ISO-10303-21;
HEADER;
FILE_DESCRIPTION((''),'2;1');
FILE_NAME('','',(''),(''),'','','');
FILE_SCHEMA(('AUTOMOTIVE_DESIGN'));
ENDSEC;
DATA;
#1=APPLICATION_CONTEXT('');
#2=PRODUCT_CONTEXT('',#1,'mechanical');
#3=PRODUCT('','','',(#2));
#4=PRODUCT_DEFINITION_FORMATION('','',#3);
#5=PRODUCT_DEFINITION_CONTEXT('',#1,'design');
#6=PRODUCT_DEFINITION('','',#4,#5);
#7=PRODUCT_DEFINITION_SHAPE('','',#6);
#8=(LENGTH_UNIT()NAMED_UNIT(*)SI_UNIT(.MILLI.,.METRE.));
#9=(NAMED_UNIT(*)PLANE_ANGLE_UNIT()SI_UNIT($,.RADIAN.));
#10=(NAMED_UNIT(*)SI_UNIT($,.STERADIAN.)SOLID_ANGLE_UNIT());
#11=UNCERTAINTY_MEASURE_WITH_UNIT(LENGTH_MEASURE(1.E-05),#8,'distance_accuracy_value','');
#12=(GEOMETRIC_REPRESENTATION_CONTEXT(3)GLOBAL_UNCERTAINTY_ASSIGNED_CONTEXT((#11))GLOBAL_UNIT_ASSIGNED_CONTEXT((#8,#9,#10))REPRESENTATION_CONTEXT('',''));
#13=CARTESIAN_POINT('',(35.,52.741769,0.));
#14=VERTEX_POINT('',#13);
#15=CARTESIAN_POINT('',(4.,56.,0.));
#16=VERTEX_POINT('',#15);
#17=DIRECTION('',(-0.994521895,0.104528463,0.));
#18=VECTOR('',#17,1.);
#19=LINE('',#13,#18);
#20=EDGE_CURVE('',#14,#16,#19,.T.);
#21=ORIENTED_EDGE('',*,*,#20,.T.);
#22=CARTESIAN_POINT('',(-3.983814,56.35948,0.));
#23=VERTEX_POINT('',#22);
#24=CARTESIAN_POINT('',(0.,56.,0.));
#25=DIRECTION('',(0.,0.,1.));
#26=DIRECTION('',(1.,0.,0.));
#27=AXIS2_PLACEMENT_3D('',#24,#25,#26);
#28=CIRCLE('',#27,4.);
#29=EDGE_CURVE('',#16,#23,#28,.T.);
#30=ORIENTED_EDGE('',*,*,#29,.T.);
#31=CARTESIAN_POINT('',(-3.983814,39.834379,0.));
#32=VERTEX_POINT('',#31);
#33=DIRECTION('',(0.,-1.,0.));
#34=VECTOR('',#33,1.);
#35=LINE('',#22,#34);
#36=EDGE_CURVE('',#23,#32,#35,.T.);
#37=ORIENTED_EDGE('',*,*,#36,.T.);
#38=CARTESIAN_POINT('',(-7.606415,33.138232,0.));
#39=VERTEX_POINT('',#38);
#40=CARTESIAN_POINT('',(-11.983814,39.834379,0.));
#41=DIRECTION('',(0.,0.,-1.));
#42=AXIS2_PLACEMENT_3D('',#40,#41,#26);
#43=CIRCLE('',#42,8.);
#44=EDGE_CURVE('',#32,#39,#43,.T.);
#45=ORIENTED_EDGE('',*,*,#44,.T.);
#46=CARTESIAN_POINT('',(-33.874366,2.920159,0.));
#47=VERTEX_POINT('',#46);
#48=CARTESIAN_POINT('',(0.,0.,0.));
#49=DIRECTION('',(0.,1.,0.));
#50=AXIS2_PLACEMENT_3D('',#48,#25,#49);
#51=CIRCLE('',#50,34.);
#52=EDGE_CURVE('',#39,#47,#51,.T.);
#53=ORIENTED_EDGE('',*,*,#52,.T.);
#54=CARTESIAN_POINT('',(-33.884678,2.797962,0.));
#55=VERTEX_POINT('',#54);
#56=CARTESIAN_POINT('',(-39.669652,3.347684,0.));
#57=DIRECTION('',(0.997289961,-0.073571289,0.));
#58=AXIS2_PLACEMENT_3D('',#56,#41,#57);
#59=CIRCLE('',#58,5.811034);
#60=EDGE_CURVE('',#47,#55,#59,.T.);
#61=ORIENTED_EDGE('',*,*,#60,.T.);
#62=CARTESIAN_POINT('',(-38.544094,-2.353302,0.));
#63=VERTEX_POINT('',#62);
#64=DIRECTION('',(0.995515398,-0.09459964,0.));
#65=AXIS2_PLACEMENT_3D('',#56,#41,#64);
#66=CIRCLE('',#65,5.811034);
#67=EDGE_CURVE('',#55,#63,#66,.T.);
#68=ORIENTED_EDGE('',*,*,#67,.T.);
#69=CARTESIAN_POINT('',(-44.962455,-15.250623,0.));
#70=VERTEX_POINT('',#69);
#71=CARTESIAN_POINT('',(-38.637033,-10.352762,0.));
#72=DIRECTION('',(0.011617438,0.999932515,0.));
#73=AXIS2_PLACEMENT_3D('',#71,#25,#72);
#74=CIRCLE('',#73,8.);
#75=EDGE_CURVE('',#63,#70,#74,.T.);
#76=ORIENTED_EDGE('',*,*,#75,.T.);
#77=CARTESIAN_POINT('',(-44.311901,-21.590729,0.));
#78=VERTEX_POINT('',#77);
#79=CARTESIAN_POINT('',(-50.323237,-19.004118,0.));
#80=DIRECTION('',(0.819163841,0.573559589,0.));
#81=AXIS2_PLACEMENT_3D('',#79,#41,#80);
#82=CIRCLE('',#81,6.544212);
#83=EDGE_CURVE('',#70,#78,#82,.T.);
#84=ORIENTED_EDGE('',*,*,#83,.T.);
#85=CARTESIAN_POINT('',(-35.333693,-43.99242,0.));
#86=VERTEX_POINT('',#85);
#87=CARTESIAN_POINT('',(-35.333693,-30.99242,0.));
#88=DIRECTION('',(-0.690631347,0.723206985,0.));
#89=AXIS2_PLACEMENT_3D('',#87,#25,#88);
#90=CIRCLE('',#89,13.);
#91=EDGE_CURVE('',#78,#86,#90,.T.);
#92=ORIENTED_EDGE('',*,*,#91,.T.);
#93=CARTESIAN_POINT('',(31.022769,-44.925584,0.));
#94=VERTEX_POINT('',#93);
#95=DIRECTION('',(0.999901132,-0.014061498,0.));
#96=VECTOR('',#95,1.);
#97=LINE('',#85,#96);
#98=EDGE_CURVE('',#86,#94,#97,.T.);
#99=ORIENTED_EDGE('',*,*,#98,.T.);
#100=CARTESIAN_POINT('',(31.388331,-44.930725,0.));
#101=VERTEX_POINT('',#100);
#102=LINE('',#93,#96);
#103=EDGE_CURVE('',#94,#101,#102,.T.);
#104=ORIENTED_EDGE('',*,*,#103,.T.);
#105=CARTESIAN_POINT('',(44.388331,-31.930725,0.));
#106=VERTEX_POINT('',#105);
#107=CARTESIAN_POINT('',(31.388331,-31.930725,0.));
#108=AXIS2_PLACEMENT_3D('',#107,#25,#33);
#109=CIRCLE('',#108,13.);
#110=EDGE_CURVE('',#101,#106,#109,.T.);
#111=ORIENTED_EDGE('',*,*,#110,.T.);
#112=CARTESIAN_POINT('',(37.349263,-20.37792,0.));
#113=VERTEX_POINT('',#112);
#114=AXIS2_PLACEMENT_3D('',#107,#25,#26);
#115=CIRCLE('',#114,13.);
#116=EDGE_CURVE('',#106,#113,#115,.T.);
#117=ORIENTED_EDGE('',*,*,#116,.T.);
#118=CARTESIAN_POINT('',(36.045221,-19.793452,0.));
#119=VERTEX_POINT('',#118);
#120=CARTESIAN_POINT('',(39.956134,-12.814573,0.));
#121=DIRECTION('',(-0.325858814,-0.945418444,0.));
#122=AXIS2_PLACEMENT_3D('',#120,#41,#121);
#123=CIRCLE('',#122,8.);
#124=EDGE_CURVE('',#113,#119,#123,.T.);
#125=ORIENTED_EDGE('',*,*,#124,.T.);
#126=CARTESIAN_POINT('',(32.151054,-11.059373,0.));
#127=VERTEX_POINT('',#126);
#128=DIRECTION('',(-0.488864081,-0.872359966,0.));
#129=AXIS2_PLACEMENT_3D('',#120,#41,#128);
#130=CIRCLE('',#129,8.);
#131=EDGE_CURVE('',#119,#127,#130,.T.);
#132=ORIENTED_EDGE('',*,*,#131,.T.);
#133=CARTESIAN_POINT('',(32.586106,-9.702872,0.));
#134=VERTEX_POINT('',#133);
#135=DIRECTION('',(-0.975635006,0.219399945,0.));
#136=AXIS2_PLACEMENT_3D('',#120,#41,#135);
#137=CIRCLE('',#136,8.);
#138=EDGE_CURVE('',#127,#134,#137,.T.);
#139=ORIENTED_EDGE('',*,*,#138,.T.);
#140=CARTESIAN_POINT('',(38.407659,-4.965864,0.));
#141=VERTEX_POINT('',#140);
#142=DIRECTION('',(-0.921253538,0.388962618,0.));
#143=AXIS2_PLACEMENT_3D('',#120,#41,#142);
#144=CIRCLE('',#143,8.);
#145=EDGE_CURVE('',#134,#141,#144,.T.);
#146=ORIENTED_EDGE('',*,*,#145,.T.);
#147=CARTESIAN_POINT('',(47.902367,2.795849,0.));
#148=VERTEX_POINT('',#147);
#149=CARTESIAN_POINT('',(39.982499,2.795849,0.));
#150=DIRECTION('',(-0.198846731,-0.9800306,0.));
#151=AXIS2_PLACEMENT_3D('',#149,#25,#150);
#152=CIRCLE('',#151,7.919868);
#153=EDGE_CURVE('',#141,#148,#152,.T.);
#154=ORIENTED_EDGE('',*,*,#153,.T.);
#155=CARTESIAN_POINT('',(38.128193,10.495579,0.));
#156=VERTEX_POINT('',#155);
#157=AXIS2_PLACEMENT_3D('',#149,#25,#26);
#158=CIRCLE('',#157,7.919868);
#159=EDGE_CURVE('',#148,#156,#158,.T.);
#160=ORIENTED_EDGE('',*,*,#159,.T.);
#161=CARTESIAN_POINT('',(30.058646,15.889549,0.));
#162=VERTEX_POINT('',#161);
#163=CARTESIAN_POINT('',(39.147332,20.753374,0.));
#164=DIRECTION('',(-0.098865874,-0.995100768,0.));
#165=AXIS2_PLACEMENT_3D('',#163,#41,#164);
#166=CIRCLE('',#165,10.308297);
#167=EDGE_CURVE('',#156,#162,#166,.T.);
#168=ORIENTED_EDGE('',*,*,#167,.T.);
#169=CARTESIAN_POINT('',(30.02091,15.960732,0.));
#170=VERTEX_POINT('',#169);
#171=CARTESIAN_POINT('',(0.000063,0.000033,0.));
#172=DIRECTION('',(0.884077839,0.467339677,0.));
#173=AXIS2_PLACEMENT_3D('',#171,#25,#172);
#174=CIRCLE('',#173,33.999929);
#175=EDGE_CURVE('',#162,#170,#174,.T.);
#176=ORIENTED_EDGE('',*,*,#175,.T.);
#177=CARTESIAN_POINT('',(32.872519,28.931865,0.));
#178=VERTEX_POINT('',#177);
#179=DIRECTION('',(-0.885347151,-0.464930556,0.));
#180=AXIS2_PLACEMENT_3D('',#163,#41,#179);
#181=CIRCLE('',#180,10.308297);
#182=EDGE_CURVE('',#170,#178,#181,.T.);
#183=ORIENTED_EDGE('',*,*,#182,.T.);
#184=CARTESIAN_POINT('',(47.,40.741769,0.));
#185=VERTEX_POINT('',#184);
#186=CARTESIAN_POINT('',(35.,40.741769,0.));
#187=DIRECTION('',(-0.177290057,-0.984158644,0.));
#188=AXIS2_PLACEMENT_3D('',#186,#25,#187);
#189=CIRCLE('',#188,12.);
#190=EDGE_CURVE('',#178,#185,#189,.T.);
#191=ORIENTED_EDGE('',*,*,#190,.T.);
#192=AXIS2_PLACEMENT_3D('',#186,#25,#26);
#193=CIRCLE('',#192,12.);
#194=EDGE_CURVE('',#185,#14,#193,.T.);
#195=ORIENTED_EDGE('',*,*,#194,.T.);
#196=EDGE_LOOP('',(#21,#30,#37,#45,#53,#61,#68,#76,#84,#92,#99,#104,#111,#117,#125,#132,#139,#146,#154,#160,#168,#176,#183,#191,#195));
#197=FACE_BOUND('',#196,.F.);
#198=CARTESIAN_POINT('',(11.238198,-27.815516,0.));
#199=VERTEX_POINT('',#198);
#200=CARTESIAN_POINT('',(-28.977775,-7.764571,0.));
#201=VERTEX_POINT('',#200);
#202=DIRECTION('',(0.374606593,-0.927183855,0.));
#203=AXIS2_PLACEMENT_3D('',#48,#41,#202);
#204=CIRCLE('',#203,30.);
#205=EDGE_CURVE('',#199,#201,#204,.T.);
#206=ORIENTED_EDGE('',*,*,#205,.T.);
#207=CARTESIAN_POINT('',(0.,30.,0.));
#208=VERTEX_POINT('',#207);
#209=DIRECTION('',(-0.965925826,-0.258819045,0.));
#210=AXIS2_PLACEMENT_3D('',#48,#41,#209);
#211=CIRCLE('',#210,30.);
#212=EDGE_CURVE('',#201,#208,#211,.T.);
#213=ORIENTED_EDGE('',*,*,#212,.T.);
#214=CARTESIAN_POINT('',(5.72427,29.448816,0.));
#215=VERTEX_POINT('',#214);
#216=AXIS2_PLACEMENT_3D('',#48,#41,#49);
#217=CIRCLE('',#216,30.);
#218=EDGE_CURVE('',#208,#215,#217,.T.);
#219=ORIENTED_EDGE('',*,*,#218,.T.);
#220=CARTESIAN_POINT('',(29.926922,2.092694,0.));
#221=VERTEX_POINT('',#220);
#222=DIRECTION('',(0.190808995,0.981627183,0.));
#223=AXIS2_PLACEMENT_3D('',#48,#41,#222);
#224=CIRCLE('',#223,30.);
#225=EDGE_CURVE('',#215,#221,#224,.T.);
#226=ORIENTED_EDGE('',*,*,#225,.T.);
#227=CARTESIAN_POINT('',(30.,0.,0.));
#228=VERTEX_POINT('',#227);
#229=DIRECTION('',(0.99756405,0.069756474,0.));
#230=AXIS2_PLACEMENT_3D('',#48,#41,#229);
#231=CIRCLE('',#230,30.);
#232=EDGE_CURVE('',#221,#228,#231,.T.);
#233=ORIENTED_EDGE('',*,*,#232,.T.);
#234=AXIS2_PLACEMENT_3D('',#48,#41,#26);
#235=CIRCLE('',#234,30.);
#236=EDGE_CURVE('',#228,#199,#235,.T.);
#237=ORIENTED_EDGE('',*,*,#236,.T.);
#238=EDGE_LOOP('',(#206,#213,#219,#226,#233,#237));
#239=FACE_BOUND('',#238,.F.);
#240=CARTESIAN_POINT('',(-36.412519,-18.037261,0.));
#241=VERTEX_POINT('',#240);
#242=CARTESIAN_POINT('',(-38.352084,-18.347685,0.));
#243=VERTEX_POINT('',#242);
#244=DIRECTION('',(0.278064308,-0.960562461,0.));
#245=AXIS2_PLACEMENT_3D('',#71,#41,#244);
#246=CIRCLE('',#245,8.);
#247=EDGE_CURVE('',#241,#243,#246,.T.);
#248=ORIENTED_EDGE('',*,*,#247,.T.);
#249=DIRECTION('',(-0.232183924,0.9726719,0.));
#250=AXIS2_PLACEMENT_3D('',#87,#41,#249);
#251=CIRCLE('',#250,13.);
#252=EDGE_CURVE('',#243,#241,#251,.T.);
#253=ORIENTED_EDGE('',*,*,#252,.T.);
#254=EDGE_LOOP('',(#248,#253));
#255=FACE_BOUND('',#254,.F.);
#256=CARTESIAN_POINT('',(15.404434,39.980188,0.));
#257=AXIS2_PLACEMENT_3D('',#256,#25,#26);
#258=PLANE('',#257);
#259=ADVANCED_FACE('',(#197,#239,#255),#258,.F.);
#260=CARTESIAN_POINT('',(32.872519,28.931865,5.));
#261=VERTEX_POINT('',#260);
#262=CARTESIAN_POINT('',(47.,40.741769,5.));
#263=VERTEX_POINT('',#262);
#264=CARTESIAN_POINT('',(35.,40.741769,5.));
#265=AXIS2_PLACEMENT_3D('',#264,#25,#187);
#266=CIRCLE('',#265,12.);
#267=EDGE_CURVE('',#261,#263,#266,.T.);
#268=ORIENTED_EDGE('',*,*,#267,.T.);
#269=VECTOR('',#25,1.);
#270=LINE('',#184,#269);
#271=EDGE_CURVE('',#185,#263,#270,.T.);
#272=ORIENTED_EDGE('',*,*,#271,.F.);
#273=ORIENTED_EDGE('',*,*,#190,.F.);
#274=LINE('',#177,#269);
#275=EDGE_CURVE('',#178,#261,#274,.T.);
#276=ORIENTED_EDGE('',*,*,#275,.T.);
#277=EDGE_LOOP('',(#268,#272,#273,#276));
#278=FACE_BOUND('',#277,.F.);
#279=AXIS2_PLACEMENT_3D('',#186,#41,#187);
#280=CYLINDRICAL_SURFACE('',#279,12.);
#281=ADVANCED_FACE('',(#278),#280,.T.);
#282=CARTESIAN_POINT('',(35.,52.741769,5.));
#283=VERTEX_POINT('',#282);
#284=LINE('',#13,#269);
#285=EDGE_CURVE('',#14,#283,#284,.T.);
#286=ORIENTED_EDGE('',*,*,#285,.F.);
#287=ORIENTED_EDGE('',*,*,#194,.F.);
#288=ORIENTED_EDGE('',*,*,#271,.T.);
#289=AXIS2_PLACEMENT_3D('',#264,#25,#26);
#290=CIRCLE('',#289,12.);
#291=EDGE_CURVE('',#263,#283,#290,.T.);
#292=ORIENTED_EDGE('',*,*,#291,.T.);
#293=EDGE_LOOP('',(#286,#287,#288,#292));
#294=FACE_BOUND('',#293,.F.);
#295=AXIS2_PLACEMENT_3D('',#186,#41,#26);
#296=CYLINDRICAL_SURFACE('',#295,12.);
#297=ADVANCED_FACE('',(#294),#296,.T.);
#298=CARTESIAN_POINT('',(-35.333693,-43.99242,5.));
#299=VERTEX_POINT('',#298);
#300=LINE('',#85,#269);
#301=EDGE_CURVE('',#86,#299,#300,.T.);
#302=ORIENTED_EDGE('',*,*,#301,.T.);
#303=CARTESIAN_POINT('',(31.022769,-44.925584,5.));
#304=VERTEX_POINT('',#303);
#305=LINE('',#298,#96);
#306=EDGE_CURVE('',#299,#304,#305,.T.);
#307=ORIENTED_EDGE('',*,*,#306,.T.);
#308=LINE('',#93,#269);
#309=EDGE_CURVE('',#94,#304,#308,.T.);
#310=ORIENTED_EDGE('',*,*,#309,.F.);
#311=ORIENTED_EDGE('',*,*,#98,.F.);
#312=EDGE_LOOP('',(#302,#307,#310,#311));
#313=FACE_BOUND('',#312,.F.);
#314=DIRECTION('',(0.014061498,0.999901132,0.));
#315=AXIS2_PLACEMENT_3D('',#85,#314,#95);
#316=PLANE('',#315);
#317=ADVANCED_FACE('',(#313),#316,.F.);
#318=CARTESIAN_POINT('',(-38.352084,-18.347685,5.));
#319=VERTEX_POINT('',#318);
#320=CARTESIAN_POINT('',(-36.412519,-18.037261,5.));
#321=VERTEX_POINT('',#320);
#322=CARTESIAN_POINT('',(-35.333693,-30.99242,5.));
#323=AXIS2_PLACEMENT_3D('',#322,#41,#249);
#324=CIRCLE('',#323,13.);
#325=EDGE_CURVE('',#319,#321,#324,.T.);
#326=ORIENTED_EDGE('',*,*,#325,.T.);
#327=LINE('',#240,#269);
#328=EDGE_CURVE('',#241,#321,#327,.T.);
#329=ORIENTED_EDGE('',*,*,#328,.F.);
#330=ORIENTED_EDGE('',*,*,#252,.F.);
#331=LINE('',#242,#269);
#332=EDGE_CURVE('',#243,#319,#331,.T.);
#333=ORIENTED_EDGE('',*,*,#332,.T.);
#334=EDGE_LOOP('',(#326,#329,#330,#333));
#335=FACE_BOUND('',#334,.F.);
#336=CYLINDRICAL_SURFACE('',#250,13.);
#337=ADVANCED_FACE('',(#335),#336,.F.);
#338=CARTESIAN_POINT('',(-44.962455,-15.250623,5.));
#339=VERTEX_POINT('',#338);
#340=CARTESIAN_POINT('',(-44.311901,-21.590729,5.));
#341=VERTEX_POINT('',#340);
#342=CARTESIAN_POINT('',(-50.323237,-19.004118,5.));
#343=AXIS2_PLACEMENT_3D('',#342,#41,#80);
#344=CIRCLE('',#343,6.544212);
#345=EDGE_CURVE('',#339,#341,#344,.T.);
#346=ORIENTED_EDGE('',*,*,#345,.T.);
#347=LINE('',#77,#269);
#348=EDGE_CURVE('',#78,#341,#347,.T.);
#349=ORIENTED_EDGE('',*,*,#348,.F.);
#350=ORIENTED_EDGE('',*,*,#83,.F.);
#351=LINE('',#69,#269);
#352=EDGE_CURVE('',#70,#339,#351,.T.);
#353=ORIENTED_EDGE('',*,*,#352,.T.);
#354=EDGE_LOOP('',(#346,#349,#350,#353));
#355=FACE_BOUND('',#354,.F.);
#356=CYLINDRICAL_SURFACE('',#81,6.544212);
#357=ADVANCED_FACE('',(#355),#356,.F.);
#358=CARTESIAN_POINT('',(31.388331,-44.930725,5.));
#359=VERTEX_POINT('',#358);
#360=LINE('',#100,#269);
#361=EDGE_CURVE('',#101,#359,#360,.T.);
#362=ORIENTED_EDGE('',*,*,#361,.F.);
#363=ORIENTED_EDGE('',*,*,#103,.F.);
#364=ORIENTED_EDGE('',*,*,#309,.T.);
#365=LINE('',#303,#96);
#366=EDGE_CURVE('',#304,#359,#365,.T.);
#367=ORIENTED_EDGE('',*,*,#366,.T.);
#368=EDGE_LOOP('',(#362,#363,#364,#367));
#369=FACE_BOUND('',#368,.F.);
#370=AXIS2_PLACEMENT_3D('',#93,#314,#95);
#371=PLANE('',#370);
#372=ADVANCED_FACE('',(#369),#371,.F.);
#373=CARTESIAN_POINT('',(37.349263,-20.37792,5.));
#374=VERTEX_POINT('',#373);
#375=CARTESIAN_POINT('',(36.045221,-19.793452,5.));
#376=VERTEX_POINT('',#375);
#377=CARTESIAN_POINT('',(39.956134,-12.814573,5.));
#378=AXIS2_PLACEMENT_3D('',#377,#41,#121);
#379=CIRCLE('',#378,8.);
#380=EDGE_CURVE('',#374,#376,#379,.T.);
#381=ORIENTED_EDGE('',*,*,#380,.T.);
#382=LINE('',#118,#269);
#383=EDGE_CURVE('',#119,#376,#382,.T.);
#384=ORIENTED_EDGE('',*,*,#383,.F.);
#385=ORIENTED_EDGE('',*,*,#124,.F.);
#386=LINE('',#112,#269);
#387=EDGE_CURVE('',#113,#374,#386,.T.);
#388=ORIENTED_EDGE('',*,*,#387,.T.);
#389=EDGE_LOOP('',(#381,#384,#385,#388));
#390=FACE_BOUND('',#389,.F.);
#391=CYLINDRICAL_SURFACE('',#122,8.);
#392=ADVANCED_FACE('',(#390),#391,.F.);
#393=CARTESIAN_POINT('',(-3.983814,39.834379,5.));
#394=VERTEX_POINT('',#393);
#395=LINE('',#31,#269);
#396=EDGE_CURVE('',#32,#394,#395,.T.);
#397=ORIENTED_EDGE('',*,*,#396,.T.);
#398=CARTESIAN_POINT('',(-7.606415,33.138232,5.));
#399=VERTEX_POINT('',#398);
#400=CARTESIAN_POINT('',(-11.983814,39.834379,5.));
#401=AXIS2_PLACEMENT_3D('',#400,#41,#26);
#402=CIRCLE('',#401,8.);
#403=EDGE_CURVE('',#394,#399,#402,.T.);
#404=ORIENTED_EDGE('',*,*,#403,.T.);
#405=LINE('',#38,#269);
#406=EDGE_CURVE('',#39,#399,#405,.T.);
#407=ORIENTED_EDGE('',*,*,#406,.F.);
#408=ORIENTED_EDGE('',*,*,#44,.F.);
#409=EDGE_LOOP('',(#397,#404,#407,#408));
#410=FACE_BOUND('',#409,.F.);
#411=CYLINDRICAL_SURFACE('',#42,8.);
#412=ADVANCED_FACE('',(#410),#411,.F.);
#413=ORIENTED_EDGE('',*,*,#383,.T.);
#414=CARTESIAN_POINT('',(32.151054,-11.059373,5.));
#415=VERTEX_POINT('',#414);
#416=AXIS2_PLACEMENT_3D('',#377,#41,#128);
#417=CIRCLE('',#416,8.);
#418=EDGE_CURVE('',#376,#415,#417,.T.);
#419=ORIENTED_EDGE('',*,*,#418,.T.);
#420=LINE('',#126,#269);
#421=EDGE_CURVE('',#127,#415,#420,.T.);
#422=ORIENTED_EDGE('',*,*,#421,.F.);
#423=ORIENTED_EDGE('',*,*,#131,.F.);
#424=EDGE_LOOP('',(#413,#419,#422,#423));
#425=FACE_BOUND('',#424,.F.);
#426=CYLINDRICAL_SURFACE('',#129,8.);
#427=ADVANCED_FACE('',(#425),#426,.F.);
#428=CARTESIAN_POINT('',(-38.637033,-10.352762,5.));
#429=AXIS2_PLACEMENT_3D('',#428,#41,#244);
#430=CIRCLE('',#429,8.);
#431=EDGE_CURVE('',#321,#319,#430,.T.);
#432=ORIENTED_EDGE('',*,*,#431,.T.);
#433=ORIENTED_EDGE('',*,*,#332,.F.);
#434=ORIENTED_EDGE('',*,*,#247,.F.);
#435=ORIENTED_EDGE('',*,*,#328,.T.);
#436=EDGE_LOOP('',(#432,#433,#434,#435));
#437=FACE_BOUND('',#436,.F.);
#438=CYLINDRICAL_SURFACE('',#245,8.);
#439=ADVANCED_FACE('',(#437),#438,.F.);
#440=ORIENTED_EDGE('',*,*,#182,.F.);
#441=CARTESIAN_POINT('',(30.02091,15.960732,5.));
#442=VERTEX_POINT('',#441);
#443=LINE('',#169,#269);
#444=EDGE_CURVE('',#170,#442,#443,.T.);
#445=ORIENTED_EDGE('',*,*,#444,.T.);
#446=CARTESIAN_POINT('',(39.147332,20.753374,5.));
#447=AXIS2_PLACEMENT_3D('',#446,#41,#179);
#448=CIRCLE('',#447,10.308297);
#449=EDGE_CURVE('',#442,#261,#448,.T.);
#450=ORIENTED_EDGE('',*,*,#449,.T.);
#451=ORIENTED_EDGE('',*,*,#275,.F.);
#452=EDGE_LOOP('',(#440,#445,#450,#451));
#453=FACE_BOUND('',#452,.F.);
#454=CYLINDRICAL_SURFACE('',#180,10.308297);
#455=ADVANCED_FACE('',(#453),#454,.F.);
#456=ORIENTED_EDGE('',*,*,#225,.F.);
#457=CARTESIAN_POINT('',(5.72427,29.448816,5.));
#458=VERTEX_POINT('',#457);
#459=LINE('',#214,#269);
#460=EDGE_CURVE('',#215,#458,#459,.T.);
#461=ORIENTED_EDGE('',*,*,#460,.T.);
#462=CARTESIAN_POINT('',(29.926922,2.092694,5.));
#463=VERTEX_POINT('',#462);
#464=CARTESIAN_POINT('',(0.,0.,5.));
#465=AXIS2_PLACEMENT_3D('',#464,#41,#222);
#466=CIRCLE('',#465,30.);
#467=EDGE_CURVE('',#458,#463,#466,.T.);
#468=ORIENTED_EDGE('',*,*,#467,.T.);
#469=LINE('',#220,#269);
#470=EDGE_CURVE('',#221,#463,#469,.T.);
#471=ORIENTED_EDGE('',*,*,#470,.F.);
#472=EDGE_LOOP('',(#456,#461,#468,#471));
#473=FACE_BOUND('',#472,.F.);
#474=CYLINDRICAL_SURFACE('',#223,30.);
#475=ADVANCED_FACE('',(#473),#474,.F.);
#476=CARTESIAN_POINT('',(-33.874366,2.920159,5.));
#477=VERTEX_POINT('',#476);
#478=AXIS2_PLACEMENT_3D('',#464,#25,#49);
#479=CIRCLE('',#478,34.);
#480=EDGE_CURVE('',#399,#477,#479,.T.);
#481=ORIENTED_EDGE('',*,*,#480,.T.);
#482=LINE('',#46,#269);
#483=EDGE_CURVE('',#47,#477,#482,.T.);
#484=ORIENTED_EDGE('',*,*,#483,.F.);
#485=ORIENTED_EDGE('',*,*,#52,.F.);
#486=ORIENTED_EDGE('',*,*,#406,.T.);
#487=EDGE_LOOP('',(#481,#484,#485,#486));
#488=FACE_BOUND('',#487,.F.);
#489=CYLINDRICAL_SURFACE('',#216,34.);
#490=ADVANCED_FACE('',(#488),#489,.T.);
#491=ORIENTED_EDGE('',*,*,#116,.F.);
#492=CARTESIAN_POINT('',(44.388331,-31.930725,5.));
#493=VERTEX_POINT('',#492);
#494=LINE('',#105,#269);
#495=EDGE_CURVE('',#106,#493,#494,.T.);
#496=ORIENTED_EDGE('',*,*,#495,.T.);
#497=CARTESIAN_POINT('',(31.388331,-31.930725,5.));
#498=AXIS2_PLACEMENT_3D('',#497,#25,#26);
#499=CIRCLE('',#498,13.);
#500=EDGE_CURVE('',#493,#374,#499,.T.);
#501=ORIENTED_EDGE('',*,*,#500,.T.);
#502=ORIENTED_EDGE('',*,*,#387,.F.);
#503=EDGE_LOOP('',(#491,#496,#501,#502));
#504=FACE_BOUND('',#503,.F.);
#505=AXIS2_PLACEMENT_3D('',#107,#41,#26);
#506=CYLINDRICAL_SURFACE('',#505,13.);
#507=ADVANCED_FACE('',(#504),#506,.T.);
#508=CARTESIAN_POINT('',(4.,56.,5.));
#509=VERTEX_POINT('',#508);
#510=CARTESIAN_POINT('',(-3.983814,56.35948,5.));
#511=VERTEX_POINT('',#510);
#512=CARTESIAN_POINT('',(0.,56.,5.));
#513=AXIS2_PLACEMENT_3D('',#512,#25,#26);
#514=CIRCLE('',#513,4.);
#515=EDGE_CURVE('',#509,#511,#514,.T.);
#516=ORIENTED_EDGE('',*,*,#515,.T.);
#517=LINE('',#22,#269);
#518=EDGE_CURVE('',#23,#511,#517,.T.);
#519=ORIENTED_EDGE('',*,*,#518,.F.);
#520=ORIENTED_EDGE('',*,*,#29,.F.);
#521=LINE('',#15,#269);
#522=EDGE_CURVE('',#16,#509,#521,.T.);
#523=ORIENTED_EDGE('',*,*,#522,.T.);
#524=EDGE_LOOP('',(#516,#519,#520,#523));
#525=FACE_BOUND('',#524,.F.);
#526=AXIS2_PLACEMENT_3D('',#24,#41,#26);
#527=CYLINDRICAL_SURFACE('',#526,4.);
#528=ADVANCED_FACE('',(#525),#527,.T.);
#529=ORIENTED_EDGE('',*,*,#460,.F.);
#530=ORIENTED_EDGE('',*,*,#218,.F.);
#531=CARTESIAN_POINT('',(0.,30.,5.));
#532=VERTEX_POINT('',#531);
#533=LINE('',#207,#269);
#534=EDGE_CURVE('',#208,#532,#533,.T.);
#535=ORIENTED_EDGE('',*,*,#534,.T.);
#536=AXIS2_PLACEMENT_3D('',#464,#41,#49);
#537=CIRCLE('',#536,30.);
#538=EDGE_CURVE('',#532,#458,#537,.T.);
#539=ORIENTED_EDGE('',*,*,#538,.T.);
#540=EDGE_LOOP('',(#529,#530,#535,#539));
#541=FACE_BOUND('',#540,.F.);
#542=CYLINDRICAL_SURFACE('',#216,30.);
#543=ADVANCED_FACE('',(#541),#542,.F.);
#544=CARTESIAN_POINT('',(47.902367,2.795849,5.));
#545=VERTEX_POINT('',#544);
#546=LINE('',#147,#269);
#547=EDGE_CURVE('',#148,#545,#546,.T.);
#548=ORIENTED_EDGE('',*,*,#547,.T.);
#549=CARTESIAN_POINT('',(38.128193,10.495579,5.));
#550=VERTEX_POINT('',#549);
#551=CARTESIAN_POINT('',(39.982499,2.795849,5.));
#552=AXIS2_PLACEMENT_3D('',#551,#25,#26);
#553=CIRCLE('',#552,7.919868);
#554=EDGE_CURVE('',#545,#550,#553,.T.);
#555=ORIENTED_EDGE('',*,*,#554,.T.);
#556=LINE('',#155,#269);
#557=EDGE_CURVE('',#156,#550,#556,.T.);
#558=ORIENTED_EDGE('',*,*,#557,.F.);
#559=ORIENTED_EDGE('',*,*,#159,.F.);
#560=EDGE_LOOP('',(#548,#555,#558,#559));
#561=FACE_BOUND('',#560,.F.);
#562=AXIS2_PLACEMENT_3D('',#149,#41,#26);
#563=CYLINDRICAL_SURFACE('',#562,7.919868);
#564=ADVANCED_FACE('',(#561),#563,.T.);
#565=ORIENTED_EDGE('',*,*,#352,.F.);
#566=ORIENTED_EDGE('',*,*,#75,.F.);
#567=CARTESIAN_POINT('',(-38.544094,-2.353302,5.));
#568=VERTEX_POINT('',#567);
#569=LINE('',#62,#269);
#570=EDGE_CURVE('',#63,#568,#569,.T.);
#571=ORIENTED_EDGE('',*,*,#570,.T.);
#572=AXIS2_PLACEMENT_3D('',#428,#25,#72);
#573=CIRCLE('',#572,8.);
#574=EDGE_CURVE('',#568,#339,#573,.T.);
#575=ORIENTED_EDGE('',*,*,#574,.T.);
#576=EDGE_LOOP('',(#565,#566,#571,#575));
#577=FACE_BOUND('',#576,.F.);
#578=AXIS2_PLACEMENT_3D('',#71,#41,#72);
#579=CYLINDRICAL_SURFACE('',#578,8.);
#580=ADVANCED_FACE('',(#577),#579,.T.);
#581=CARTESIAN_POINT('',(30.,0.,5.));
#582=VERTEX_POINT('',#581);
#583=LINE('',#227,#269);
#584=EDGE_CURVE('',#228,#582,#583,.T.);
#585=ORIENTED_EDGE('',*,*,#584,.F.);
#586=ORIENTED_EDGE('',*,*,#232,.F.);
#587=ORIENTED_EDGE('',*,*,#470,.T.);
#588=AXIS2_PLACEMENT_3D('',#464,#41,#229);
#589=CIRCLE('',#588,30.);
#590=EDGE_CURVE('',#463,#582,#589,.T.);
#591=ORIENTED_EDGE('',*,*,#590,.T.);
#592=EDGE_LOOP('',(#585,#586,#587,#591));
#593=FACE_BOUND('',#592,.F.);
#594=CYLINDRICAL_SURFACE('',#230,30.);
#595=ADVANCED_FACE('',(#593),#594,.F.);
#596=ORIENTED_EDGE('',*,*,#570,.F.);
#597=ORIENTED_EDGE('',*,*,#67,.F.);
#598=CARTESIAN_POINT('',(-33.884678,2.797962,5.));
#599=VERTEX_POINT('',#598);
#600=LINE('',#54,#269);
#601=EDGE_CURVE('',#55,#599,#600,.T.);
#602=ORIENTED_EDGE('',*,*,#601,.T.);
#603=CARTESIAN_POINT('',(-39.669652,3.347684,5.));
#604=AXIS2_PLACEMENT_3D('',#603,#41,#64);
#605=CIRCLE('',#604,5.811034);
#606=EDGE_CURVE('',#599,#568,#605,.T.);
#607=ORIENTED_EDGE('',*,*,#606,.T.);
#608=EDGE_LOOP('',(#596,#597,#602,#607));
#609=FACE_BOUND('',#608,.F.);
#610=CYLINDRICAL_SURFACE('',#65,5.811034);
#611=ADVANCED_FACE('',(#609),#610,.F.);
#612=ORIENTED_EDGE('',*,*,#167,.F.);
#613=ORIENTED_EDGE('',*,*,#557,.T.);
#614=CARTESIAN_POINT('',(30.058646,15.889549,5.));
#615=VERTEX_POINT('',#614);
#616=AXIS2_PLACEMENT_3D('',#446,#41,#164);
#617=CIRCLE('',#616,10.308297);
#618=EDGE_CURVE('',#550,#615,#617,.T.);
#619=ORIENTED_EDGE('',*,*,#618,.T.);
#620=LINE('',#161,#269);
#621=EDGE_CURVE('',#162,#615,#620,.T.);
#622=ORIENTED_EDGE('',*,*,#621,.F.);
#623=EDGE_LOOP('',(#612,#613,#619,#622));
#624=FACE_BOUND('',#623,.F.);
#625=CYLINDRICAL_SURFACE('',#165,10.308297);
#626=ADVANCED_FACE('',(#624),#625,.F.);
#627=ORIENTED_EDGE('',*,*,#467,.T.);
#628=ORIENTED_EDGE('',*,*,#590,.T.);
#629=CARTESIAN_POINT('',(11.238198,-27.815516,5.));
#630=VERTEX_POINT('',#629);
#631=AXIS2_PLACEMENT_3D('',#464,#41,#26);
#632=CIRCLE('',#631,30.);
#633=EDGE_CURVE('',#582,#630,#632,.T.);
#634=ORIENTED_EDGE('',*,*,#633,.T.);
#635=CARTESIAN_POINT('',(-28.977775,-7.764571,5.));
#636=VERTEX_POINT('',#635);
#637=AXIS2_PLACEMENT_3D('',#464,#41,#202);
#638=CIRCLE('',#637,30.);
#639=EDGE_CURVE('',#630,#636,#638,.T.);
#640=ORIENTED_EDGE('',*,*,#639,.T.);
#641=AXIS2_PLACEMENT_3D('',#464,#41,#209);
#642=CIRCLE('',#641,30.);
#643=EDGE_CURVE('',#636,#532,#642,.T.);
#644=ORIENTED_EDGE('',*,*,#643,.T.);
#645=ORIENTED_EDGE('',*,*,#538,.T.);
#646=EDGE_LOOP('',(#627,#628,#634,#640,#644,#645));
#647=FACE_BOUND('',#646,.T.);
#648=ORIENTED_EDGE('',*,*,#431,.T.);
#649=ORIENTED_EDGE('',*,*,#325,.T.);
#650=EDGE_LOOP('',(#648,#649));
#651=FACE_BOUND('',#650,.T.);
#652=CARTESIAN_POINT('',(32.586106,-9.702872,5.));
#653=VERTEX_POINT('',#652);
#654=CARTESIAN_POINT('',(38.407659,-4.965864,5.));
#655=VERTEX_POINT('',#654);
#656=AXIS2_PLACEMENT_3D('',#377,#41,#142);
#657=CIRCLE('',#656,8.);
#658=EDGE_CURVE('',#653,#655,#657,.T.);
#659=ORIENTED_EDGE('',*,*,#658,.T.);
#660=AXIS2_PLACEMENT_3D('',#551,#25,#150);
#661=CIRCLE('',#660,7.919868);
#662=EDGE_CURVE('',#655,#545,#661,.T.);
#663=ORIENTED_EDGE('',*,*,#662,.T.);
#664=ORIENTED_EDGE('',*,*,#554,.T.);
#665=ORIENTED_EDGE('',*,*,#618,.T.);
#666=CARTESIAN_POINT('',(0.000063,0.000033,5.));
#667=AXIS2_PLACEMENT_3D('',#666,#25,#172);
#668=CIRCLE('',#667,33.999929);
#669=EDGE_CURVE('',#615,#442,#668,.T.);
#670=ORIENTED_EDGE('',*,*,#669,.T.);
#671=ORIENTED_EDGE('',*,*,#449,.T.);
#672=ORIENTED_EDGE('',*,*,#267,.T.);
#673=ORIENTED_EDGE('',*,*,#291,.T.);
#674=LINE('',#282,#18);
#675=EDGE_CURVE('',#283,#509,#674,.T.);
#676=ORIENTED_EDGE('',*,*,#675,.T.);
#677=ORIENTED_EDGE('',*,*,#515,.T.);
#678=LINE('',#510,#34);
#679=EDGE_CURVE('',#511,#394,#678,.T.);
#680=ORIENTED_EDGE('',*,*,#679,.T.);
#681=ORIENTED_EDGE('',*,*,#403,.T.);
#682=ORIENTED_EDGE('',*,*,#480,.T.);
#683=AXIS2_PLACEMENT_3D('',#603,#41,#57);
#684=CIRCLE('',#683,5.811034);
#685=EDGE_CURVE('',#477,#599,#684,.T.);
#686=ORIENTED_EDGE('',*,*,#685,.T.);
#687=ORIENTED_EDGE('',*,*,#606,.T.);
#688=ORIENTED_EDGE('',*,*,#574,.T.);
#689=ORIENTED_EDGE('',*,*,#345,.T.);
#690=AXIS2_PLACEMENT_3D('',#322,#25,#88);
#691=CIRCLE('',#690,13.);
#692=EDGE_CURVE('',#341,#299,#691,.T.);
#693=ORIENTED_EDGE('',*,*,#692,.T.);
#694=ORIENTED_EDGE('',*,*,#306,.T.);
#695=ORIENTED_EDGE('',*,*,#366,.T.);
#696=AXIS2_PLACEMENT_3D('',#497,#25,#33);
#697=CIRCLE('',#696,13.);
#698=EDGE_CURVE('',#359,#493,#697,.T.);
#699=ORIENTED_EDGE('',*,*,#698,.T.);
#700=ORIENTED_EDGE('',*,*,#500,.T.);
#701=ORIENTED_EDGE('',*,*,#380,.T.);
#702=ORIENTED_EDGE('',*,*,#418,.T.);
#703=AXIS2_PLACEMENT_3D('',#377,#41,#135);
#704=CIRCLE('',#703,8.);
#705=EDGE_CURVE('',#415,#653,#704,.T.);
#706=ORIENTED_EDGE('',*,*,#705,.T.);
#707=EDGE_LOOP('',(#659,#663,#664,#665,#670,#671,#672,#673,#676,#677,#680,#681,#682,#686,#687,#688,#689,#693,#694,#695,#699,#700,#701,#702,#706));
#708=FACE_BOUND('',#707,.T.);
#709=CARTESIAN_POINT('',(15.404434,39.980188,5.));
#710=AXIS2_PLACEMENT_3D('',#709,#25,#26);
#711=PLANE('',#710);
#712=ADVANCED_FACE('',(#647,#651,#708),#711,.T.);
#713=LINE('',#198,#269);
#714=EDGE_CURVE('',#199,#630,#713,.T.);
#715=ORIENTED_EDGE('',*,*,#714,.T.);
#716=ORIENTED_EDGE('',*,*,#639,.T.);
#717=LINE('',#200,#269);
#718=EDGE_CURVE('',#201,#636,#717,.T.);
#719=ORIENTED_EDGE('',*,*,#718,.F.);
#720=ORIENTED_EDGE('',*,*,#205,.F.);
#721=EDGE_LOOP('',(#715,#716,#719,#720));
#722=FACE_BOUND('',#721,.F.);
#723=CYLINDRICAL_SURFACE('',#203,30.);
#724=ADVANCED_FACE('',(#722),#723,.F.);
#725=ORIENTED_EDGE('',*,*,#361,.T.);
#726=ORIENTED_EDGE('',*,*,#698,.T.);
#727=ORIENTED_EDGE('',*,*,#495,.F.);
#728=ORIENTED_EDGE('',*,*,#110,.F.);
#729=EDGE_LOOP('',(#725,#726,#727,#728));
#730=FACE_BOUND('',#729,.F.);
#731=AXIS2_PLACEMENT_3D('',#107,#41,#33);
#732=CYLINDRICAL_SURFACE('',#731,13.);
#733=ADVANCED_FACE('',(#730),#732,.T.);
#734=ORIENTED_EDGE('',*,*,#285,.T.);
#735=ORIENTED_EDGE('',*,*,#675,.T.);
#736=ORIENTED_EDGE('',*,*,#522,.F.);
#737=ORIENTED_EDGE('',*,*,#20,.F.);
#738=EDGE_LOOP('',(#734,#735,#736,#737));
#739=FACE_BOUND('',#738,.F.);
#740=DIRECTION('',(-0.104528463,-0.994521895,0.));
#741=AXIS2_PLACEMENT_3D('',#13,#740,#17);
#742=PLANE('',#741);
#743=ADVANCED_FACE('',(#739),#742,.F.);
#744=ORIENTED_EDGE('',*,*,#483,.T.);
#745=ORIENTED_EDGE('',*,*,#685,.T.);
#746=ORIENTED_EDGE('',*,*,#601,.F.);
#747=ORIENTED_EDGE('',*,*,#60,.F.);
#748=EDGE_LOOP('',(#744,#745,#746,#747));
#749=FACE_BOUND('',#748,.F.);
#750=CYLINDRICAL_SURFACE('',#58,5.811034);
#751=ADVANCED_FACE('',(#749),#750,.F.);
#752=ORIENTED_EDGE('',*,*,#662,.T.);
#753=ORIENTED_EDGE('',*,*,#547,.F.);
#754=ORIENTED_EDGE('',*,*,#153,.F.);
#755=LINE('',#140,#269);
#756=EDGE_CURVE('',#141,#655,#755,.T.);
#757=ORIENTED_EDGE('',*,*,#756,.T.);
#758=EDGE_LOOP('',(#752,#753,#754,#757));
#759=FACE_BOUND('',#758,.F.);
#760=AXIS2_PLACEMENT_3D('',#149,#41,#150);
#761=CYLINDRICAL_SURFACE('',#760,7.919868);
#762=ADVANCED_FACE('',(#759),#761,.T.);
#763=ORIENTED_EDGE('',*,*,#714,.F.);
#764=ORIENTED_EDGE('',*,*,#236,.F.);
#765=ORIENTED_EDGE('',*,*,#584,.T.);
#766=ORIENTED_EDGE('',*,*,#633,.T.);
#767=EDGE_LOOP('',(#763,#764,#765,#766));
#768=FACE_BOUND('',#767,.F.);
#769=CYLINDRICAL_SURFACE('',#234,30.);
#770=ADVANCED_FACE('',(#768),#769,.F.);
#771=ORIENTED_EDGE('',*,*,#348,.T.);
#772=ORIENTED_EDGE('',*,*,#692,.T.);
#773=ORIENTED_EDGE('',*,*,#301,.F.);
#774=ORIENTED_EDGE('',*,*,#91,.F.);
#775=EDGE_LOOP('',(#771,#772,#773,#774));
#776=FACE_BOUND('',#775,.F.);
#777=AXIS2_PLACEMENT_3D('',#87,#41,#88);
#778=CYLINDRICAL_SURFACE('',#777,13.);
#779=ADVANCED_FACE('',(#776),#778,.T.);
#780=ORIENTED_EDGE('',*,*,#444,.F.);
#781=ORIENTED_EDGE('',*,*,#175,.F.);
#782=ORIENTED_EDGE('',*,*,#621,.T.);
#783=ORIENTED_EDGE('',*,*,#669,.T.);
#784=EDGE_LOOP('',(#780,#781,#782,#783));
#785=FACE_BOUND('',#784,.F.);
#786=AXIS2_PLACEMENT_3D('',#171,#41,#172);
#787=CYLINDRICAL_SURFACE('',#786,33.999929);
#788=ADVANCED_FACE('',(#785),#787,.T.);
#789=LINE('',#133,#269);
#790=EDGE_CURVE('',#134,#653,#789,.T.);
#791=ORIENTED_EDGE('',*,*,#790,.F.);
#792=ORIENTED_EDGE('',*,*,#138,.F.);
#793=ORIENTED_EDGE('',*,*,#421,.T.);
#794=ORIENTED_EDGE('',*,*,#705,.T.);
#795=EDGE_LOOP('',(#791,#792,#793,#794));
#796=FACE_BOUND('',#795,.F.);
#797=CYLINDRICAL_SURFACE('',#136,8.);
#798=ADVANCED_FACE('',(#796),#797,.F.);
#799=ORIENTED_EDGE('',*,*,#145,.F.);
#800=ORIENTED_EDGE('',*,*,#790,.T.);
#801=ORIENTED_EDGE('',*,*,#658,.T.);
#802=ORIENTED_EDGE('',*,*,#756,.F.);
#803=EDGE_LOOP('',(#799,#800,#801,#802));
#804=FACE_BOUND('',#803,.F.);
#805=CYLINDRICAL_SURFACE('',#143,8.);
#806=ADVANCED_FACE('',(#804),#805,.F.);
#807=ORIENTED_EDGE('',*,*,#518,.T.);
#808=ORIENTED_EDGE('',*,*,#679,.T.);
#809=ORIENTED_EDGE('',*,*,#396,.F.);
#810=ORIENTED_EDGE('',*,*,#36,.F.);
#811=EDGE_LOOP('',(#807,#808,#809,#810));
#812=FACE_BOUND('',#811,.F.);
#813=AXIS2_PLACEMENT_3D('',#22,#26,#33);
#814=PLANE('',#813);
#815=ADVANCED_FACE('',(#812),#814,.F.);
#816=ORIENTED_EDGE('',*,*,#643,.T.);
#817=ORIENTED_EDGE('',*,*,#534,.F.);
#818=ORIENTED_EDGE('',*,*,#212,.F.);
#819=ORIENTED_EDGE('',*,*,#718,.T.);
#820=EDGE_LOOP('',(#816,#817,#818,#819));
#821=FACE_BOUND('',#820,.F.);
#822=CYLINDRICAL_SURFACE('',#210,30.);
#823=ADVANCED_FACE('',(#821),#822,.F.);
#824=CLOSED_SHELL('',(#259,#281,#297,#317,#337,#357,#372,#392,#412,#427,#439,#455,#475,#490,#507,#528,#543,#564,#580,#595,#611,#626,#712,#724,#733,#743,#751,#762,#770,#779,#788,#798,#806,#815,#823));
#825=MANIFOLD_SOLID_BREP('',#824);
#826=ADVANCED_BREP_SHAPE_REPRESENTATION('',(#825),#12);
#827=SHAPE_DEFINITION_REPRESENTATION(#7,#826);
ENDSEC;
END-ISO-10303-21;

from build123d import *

# Parameters (mm, degrees)
F1_DEPTH = 5


with BuildPart() as f1:
    # F0 (on Top) → F1 (new body)
    with BuildSketch(Plane.XY):
        with BuildLine():
            ThreePointArc((0, 34), (3.2587555857, 33.8434707445), (6.4875058428, 33.3753242372))
            ThreePointArc((6.4875058428, 33.3753242372), (20.2245672544, 27.3306948205), (30.0209102084, 15.9607315076))
            ThreePointArc((30.0209102084, 15.9607315076), (29.0794581658, 22.9667223471), (32.8725193204, 28.9318649833))
            ThreePointArc((32.8725193204, 28.9318649833), (23.0476185494, 41.8097470114), (35, 52.7417687068))
            Line((35, 52.7417687068), (4, 56))
            ThreePointArc((4, 56), (0.179921966, 52.0040485381), (-3.9838140431, 55.6405202785))
            Line((-3.9838140431, 55.6405202785), (-3.9838140431, 39.8343790556))
            ThreePointArc((-3.9838140431, 39.8343790556), (-4.947508544, 36.0277526064), (-7.6064152741, 33.1382324012))
            ThreePointArc((-7.6064152741, 33.1382324012), (-3.8275382662, 33.7838711639), (0, 34))
        make_face()
        with BuildLine():
            ThreePointArc((11.6323598151, 39.2650873379), (10.1766726962, 36.1785890044), (6.8691238336, 35.3385786041))
            ThreePointArc((6.8691238336, 35.3385786041), (5.088046934, 42.3515856715), (11.6323598151, 39.2650873379))
        make_face(mode=Mode.SUBTRACT)
        with BuildLine():
            ThreePointArc((18.9205391147, -28.2491274132), (15.9130639923, -30.0462043256), (12.7366241761, -31.5242510553))
            ThreePointArc((12.7366241761, -31.5242510553), (-7.8635142897, -33.0781671653), (-25.560544226, -22.4200485921))
            ThreePointArc((-25.560544226, -22.4200485921), (-23.167121621, -26.4126243079), (-22.3336934435, -30.9924201643))
            ThreePointArc((-22.3336934435, -30.9924201643), (-26.1413052881, -40.1848083197), (-35.3336934435, -43.9924201643))
            Line((-35.3336934435, -43.9924201643), (31.0227685195, -44.9255836818))
            ThreePointArc((31.0227685195, -44.9255836818), (20.8669341418, -39.5661814055), (18.9205391147, -28.2491274132))
        make_face()
        with BuildLine():
            ThreePointArc((18.9842637366, -37.0873541827), (12.7474921228, -40.4035044729), (13.485837363, -33.3786187644))
            ThreePointArc((13.485837363, -33.3786187644), (17.2210353505, -33.7712038925), (18.9842637366, -37.0873541827))
        make_face(mode=Mode.SUBTRACT)
        with BuildLine():
            ThreePointArc((-22.3336934435, -30.9924201643), (-23.167121621, -26.4126243079), (-25.560544226, -22.4200485921))
            ThreePointArc((-25.560544226, -22.4200485921), (-30.4654264554, -18.9383761734), (-36.4125185886, -18.0372614888))
            ThreePointArc((-36.4125185886, -18.0372614888), (-37.3727380033, -18.2522274842), (-38.3520844578, -18.3476854622))
            ThreePointArc((-38.3520844578, -18.3476854622), (-41.5473016914, -19.573529126), (-44.3119009512, -21.5907293616))
            ThreePointArc((-44.3119009512, -21.5907293616), (-47.4006313408, -35.8286387059), (-35.3336934435, -43.9924201643))
            ThreePointArc((-35.3336934435, -43.9924201643), (-26.1413052881, -40.1848083197), (-22.3336934435, -30.9924201643))
        make_face()
        with BuildLine():
            ThreePointArc((27.9208578423, -19.4016931568), (23.8348146721, -24.2466824441), (18.9205391147, -28.2491274132))
            ThreePointArc((18.9205391147, -28.2491274132), (20.8669341418, -39.5661814055), (31.0227685195, -44.9255836818))
            Line((31.0227685195, -44.9255836818), (31.3883313218, -44.9307245507))
            ThreePointArc((31.3883313218, -44.9307245507), (40.5807194772, -41.1231127061), (44.3883313218, -31.9307245507))
            ThreePointArc((44.3883313218, -31.9307245507), (42.4899554696, -25.1665585799), (37.3492634325, -20.3779201997))
            ThreePointArc((37.3492634325, -20.3779201997), (36.6841658821, -20.1148620294), (36.0452212927, -19.7934523778))
            ThreePointArc((36.0452212927, -19.7934523778), (32.0144676642, -18.9458120257), (27.9208578423, -19.4016931568))
        make_face()
        with BuildLine():
            ThreePointArc((35, 52.7417687068), (23.0476185494, 41.8097470114), (32.8725193204, 28.9318649833))
            ThreePointArc((32.8725193204, 28.9318649833), (42.6964352737, 31.5349840304), (47, 40.7417687068))
            ThreePointArc((47, 40.7417687068), (43.4852813742, 49.227050081), (35, 52.7417687068))
        make_face()
        with BuildLine():
            Line((-30.9096264413, -8.2822094433), (-28.9777747887, -7.7645713531))
            ThreePointArc((-28.9777747887, -7.7645713531), (-23.8006002087, 18.2628428703), (0, 30))
            Line((0, 30), (0, 34))
            ThreePointArc((0, 34), (-3.8275382662, 33.7838711639), (-7.6064152741, 33.1382324012))
            ThreePointArc((-7.6064152741, 33.1382324012), (-25.660218261, 22.3059005377), (-33.8743660313, 2.920158553))
            ThreePointArc((-33.8743660313, 2.920158553), (-33.8791997031, 2.859033117), (-33.8846780738, 2.7979620864))
            ThreePointArc((-33.8846780738, 2.7979620864), (-33.9945520092, -0.6086326428), (-33.7628054009, -4.0091110564))
            ThreePointArc((-33.7628054009, -4.0091110564), (-31.9838278865, -5.9103681889), (-30.9096264413, -8.2822094433))
        make_face()
        with BuildLine():
            Line((12.7366241761, -31.5242510553), (11.2381978025, -27.815515637))
            ThreePointArc((11.2381978025, -27.815515637), (-13.3859343933, -26.8480308481), (-28.9777747887, -7.7645713531))
            Line((-28.9777747887, -7.7645713531), (-30.9096264413, -8.2822094433))
            ThreePointArc((-30.9096264413, -8.2822094433), (-30.7054741606, -9.3085522663), (-30.6370330516, -10.3527618041))
            ThreePointArc((-30.6370330516, -10.3527618041), (-30.7902425374, -11.9109269517), (-31.2440027084, -13.409410679))
            ThreePointArc((-31.2440027084, -13.409410679), (-28.7573823045, -18.1387144802), (-25.560544226, -22.4200485921))
            ThreePointArc((-25.560544226, -22.4200485921), (-7.8635142897, -33.0781671653), (12.7366241761, -31.5242510553))
        make_face()
        with BuildLine():
            ThreePointArc((-31.2440027084, -13.409410679), (-32.1255230387, -11.133317991), (-32.8414780938, -8.7998475335))
            ThreePointArc((-32.8414780938, -8.7998475335), (-33.3881780569, -6.4210253107), (-33.7628054009, -4.0091110564))
            ThreePointArc((-33.7628054009, -4.0091110564), (-36.0190923418, -2.7932389064), (-38.5440935464, -2.3533016818))
            ThreePointArc((-38.5440935464, -2.3533016818), (-45.7991682525, -6.7885200385), (-44.9624546785, -15.2506226884))
            ThreePointArc((-44.9624546785, -15.2506226884), (-42.0311129081, -17.597085232), (-38.3520844578, -18.3476854622))
            ThreePointArc((-38.3520844578, -18.3476854622), (-37.388172897, -18.1557884341), (-36.4125185886, -18.0372614888))
            ThreePointArc((-36.4125185886, -18.0372614888), (-33.3005039545, -16.3127498239), (-31.2440027084, -13.409410679))
        make_face()
        with BuildLine():
            ThreePointArc((-34.6370330516, -10.3527618041), (-42.6028124971, -10.874866573), (-34.7733297464, -9.3174856237))
            ThreePointArc((-34.7733297464, -9.3174856237), (-34.6712536061, -9.8306570352), (-34.6370330516, -10.3527618041))
        make_face(mode=Mode.SUBTRACT)
        with BuildLine():
            ThreePointArc((33.271358913, 7.0011910473), (33.6739196359, 4.6975670679), (33.9171777088, 2.3717201073))
            ThreePointArc((33.9171777088, 2.3717201073), (33.9792881186, 1.1865828879), (34, 0))
            ThreePointArc((34, 0), (33.9804798474, -1.1519502322), (33.9219418037, -2.3025777442))
            ThreePointArc((33.9219418037, -2.3025777442), (35.9392211989, -4.0141594109), (38.4076591967, -4.9658640978))
            ThreePointArc((38.4076591967, -4.9658640978), (44.995072344, -3.3359059143), (47.9023668124, 2.7958486899))
            ThreePointArc((47.9023668124, 2.7958486899), (44.883440045, 9.0171896164), (38.1281928152, 10.4955794883))
            ThreePointArc((38.1281928152, 10.4955794883), (35.3570903597, 9.2246822233), (33.271358913, 7.0011910473))
        make_face()
        with BuildLine():
            ThreePointArc((43.9025620104, 2.7902589498), (40.0421599972, -1.2073043583), (35.9123058094, 2.5112330548))
            ThreePointArc((35.9123058094, 2.5112330548), (39.7629640236, 6.7878222578), (43.9025620104, 2.7902589498))
        make_face(mode=Mode.SUBTRACT)
        with BuildLine():
            ThreePointArc((5.7242698613, 29.4488155034), (22.4686716237, 19.8786014465), (29.9269215078, 2.0926942123))
            Line((29.9269215078, 2.0926942123), (32.0819236255, 2.2433866401))
            ThreePointArc((32.0819236255, 2.2433866401), (32.2990926681, 4.7166747391), (33.271358913, 7.0011910473))
            ThreePointArc((33.271358913, 7.0011910473), (31.9753518136, 11.5575462965), (30.0586464994, 15.8895491007))
            ThreePointArc((30.0586464994, 15.8895491007), (30.0397994382, 15.9251514817), (30.0209102084, 15.9607315076))
            ThreePointArc((30.0209102084, 15.9607315076), (20.2245672544, 27.3306948205), (6.4875058428, 33.3753242372))
            Line((6.4875058428, 33.3753242372), (5.7242698613, 29.4488155034))
        make_face()
        with BuildLine():
            ThreePointArc((29.9269215078, 2.0926942123), (29.9817248106, 1.0469849011), (30, 0))
            ThreePointArc((30, 0), (24.8711271767, -16.7757871041), (11.2381978025, -27.815515637))
            Line((11.2381978025, -27.815515637), (12.7366241761, -31.5242510553))
            ThreePointArc((12.7366241761, -31.5242510553), (15.9130639923, -30.0462043256), (18.9205391147, -28.2491274132))
            ThreePointArc((18.9205391147, -28.2491274132), (22.2750198295, -22.6599342044), (27.9208578423, -19.4016931568))
            ThreePointArc((27.9208578423, -19.4016931568), (30.324201903, -15.3766959697), (32.1510538984, -11.0593730936))
            ThreePointArc((32.1510538984, -11.0593730936), (32.3383257047, -10.3714194358), (32.5861056385, -9.7028717046))
            ThreePointArc((32.5861056385, -9.7028717046), (33.4592465743, -6.0397697541), (33.9219418037, -2.3025777442))
            ThreePointArc((33.9219418037, -2.3025777442), (32.6411943682, -0.1756075), (32.0819236255, 2.2433866401))
            Line((32.0819236255, 2.2433866401), (29.9269215078, 2.0926942123))
        make_face()
        with BuildLine():
            ThreePointArc((43.9025620104, 2.7902589498), (39.7629640236, 6.7878222578), (35.9123058094, 2.5112330548))
            ThreePointArc((35.9123058094, 2.5112330548), (40.0421599972, -1.2073043583), (43.9025620104, 2.7902589498))
        make_face()
        with BuildLine():
            ThreePointArc((11.6323598151, 39.2650873379), (5.088046934, 42.3515856715), (6.8691238336, 35.3385786041))
            ThreePointArc((6.8691238336, 35.3385786041), (10.1766726962, 36.1785890044), (11.6323598151, 39.2650873379))
        make_face()
        with BuildLine():
            ThreePointArc((-34.6370330516, -10.3527618041), (-34.6712536061, -9.8306570352), (-34.7733297464, -9.3174856237))
            ThreePointArc((-34.7733297464, -9.3174856237), (-42.6028124971, -10.874866573), (-34.6370330516, -10.3527618041))
        make_face()
        with BuildLine():
            ThreePointArc((18.9842637366, -37.0873541827), (17.2210353505, -33.7712038925), (13.485837363, -33.3786187644))
            ThreePointArc((13.485837363, -33.3786187644), (12.7474921228, -40.4035044729), (18.9842637366, -37.0873541827))
        make_face()
        with BuildLine():
            Line((-3.9838140431, 56.3594797215), (-3.9838140431, 55.6405202785))
            ThreePointArc((-3.9838140431, 55.6405202785), (0.179921966, 52.0040485381), (4, 56))
            ThreePointArc((4, 56), (0.179921966, 59.9959514619), (-3.9838140431, 56.3594797215))
        make_face()
        with BuildLine():
            ThreePointArc((0, 30), (2.8753725756, 29.861885951), (5.7242698613, 29.4488155034))
            Line((5.7242698613, 29.4488155034), (6.4875058428, 33.3753242372))
            ThreePointArc((6.4875058428, 33.3753242372), (3.2587555857, 33.8434707445), (0, 34))
            Line((0, 34), (0, 30))
        make_face()
        with BuildLine():
            ThreePointArc((27.9208578423, -19.4016931568), (22.2750198295, -22.6599342044), (18.9205391147, -28.2491274132))
            ThreePointArc((18.9205391147, -28.2491274132), (23.8348146721, -24.2466824441), (27.9208578423, -19.4016931568))
        make_face()
        with BuildLine():
            ThreePointArc((32.1510538984, -11.0593730936), (30.324201903, -15.3766959697), (27.9208578423, -19.4016931568))
            ThreePointArc((27.9208578423, -19.4016931568), (32.0144676642, -18.9458120257), (36.0452212927, -19.7934523778))
            ThreePointArc((36.0452212927, -19.7934523778), (32.6494824226, -16.0723086059), (32.1510538984, -11.0593730936))
        make_face()
        with BuildLine():
            ThreePointArc((-36.4125185886, -18.0372614888), (-30.4654264554, -18.9383761734), (-25.560544226, -22.4200485921))
            ThreePointArc((-25.560544226, -22.4200485921), (-28.7573823045, -18.1387144802), (-31.2440027084, -13.409410679))
            ThreePointArc((-31.2440027084, -13.409410679), (-33.3005039545, -16.3127498239), (-36.4125185886, -18.0372614888))
        make_face()
        with BuildLine():
            ThreePointArc((30.0586464994, 15.8895491007), (31.9753518136, 11.5575462965), (33.271358913, 7.0011910473))
            ThreePointArc((33.271358913, 7.0011910473), (35.3570903597, 9.2246822233), (38.1281928152, 10.4955794883))
            ThreePointArc((38.1281928152, 10.4955794883), (33.4188280477, 12.1833542638), (30.0586464994, 15.8895491007))
        make_face()
        with BuildLine():
            ThreePointArc((38.4076591967, -4.9658640978), (35.9392211989, -4.0141594109), (33.9219418037, -2.3025777442))
            ThreePointArc((33.9219418037, -2.3025777442), (33.4592465743, -6.0397697541), (32.5861056385, -9.7028717046))
            ThreePointArc((32.5861056385, -9.7028717046), (34.9069028696, -6.6093115318), (38.4076591967, -4.9658640978))
        make_face()
        with BuildLine():
            ThreePointArc((-44.3119009512, -21.5907293616), (-41.5473016914, -19.573529126), (-38.3520844578, -18.3476854622))
            ThreePointArc((-38.3520844578, -18.3476854622), (-42.0311129081, -17.597085232), (-44.9624546785, -15.2506226884))
            ThreePointArc((-44.9624546785, -15.2506226884), (-43.8132056909, -18.3361288456), (-44.3119009512, -21.5907293616))
        make_face()
        with BuildLine():
            ThreePointArc((-38.5440935464, -2.3533016818), (-36.0190923418, -2.7932389064), (-33.7628054009, -4.0091110564))
            ThreePointArc((-33.7628054009, -4.0091110564), (-33.9945520092, -0.6086326428), (-33.8846780738, 2.7979620864))
            ThreePointArc((-33.8846780738, 2.7979620864), (-35.3600413453, -0.5504405191), (-38.5440935464, -2.3533016818))
        make_face()
        with BuildLine():
            Line((-32.8414780938, -8.7998475335), (-30.9096264413, -8.2822094433))
            ThreePointArc((-30.9096264413, -8.2822094433), (-31.9838278865, -5.9103681889), (-33.7628054009, -4.0091110564))
            ThreePointArc((-33.7628054009, -4.0091110564), (-33.3881780569, -6.4210253107), (-32.8414780938, -8.7998475335))
        make_face()
        with BuildLine():
            ThreePointArc((-30.6370330516, -10.3527618041), (-30.7054741606, -9.3085522663), (-30.9096264413, -8.2822094433))
            Line((-30.9096264413, -8.2822094433), (-32.8414780938, -8.7998475335))
            ThreePointArc((-32.8414780938, -8.7998475335), (-32.1255230387, -11.133317991), (-31.2440027084, -13.409410679))
            ThreePointArc((-31.2440027084, -13.409410679), (-30.7902425374, -11.9109269517), (-30.6370330516, -10.3527618041))
        make_face()
        with BuildLine():
            Line((33.9171777088, 2.3717201073), (32.0819236255, 2.2433866401))
            ThreePointArc((32.0819236255, 2.2433866401), (32.6411943682, -0.1756075), (33.9219418037, -2.3025777442))
            ThreePointArc((33.9219418037, -2.3025777442), (33.9804798474, -1.1519502322), (34, 0))
            ThreePointArc((34, 0), (33.9792881186, 1.1865828879), (33.9171777088, 2.3717201073))
        make_face()
        with BuildLine():
            ThreePointArc((33.271358913, 7.0011910473), (32.2990926681, 4.7166747391), (32.0819236255, 2.2433866401))
            Line((32.0819236255, 2.2433866401), (33.9171777088, 2.3717201073))
            ThreePointArc((33.9171777088, 2.3717201073), (33.6739196359, 4.6975670679), (33.271358913, 7.0011910473))
        make_face()
    extrude(amount=F1_DEPTH)


solid = f1.part
